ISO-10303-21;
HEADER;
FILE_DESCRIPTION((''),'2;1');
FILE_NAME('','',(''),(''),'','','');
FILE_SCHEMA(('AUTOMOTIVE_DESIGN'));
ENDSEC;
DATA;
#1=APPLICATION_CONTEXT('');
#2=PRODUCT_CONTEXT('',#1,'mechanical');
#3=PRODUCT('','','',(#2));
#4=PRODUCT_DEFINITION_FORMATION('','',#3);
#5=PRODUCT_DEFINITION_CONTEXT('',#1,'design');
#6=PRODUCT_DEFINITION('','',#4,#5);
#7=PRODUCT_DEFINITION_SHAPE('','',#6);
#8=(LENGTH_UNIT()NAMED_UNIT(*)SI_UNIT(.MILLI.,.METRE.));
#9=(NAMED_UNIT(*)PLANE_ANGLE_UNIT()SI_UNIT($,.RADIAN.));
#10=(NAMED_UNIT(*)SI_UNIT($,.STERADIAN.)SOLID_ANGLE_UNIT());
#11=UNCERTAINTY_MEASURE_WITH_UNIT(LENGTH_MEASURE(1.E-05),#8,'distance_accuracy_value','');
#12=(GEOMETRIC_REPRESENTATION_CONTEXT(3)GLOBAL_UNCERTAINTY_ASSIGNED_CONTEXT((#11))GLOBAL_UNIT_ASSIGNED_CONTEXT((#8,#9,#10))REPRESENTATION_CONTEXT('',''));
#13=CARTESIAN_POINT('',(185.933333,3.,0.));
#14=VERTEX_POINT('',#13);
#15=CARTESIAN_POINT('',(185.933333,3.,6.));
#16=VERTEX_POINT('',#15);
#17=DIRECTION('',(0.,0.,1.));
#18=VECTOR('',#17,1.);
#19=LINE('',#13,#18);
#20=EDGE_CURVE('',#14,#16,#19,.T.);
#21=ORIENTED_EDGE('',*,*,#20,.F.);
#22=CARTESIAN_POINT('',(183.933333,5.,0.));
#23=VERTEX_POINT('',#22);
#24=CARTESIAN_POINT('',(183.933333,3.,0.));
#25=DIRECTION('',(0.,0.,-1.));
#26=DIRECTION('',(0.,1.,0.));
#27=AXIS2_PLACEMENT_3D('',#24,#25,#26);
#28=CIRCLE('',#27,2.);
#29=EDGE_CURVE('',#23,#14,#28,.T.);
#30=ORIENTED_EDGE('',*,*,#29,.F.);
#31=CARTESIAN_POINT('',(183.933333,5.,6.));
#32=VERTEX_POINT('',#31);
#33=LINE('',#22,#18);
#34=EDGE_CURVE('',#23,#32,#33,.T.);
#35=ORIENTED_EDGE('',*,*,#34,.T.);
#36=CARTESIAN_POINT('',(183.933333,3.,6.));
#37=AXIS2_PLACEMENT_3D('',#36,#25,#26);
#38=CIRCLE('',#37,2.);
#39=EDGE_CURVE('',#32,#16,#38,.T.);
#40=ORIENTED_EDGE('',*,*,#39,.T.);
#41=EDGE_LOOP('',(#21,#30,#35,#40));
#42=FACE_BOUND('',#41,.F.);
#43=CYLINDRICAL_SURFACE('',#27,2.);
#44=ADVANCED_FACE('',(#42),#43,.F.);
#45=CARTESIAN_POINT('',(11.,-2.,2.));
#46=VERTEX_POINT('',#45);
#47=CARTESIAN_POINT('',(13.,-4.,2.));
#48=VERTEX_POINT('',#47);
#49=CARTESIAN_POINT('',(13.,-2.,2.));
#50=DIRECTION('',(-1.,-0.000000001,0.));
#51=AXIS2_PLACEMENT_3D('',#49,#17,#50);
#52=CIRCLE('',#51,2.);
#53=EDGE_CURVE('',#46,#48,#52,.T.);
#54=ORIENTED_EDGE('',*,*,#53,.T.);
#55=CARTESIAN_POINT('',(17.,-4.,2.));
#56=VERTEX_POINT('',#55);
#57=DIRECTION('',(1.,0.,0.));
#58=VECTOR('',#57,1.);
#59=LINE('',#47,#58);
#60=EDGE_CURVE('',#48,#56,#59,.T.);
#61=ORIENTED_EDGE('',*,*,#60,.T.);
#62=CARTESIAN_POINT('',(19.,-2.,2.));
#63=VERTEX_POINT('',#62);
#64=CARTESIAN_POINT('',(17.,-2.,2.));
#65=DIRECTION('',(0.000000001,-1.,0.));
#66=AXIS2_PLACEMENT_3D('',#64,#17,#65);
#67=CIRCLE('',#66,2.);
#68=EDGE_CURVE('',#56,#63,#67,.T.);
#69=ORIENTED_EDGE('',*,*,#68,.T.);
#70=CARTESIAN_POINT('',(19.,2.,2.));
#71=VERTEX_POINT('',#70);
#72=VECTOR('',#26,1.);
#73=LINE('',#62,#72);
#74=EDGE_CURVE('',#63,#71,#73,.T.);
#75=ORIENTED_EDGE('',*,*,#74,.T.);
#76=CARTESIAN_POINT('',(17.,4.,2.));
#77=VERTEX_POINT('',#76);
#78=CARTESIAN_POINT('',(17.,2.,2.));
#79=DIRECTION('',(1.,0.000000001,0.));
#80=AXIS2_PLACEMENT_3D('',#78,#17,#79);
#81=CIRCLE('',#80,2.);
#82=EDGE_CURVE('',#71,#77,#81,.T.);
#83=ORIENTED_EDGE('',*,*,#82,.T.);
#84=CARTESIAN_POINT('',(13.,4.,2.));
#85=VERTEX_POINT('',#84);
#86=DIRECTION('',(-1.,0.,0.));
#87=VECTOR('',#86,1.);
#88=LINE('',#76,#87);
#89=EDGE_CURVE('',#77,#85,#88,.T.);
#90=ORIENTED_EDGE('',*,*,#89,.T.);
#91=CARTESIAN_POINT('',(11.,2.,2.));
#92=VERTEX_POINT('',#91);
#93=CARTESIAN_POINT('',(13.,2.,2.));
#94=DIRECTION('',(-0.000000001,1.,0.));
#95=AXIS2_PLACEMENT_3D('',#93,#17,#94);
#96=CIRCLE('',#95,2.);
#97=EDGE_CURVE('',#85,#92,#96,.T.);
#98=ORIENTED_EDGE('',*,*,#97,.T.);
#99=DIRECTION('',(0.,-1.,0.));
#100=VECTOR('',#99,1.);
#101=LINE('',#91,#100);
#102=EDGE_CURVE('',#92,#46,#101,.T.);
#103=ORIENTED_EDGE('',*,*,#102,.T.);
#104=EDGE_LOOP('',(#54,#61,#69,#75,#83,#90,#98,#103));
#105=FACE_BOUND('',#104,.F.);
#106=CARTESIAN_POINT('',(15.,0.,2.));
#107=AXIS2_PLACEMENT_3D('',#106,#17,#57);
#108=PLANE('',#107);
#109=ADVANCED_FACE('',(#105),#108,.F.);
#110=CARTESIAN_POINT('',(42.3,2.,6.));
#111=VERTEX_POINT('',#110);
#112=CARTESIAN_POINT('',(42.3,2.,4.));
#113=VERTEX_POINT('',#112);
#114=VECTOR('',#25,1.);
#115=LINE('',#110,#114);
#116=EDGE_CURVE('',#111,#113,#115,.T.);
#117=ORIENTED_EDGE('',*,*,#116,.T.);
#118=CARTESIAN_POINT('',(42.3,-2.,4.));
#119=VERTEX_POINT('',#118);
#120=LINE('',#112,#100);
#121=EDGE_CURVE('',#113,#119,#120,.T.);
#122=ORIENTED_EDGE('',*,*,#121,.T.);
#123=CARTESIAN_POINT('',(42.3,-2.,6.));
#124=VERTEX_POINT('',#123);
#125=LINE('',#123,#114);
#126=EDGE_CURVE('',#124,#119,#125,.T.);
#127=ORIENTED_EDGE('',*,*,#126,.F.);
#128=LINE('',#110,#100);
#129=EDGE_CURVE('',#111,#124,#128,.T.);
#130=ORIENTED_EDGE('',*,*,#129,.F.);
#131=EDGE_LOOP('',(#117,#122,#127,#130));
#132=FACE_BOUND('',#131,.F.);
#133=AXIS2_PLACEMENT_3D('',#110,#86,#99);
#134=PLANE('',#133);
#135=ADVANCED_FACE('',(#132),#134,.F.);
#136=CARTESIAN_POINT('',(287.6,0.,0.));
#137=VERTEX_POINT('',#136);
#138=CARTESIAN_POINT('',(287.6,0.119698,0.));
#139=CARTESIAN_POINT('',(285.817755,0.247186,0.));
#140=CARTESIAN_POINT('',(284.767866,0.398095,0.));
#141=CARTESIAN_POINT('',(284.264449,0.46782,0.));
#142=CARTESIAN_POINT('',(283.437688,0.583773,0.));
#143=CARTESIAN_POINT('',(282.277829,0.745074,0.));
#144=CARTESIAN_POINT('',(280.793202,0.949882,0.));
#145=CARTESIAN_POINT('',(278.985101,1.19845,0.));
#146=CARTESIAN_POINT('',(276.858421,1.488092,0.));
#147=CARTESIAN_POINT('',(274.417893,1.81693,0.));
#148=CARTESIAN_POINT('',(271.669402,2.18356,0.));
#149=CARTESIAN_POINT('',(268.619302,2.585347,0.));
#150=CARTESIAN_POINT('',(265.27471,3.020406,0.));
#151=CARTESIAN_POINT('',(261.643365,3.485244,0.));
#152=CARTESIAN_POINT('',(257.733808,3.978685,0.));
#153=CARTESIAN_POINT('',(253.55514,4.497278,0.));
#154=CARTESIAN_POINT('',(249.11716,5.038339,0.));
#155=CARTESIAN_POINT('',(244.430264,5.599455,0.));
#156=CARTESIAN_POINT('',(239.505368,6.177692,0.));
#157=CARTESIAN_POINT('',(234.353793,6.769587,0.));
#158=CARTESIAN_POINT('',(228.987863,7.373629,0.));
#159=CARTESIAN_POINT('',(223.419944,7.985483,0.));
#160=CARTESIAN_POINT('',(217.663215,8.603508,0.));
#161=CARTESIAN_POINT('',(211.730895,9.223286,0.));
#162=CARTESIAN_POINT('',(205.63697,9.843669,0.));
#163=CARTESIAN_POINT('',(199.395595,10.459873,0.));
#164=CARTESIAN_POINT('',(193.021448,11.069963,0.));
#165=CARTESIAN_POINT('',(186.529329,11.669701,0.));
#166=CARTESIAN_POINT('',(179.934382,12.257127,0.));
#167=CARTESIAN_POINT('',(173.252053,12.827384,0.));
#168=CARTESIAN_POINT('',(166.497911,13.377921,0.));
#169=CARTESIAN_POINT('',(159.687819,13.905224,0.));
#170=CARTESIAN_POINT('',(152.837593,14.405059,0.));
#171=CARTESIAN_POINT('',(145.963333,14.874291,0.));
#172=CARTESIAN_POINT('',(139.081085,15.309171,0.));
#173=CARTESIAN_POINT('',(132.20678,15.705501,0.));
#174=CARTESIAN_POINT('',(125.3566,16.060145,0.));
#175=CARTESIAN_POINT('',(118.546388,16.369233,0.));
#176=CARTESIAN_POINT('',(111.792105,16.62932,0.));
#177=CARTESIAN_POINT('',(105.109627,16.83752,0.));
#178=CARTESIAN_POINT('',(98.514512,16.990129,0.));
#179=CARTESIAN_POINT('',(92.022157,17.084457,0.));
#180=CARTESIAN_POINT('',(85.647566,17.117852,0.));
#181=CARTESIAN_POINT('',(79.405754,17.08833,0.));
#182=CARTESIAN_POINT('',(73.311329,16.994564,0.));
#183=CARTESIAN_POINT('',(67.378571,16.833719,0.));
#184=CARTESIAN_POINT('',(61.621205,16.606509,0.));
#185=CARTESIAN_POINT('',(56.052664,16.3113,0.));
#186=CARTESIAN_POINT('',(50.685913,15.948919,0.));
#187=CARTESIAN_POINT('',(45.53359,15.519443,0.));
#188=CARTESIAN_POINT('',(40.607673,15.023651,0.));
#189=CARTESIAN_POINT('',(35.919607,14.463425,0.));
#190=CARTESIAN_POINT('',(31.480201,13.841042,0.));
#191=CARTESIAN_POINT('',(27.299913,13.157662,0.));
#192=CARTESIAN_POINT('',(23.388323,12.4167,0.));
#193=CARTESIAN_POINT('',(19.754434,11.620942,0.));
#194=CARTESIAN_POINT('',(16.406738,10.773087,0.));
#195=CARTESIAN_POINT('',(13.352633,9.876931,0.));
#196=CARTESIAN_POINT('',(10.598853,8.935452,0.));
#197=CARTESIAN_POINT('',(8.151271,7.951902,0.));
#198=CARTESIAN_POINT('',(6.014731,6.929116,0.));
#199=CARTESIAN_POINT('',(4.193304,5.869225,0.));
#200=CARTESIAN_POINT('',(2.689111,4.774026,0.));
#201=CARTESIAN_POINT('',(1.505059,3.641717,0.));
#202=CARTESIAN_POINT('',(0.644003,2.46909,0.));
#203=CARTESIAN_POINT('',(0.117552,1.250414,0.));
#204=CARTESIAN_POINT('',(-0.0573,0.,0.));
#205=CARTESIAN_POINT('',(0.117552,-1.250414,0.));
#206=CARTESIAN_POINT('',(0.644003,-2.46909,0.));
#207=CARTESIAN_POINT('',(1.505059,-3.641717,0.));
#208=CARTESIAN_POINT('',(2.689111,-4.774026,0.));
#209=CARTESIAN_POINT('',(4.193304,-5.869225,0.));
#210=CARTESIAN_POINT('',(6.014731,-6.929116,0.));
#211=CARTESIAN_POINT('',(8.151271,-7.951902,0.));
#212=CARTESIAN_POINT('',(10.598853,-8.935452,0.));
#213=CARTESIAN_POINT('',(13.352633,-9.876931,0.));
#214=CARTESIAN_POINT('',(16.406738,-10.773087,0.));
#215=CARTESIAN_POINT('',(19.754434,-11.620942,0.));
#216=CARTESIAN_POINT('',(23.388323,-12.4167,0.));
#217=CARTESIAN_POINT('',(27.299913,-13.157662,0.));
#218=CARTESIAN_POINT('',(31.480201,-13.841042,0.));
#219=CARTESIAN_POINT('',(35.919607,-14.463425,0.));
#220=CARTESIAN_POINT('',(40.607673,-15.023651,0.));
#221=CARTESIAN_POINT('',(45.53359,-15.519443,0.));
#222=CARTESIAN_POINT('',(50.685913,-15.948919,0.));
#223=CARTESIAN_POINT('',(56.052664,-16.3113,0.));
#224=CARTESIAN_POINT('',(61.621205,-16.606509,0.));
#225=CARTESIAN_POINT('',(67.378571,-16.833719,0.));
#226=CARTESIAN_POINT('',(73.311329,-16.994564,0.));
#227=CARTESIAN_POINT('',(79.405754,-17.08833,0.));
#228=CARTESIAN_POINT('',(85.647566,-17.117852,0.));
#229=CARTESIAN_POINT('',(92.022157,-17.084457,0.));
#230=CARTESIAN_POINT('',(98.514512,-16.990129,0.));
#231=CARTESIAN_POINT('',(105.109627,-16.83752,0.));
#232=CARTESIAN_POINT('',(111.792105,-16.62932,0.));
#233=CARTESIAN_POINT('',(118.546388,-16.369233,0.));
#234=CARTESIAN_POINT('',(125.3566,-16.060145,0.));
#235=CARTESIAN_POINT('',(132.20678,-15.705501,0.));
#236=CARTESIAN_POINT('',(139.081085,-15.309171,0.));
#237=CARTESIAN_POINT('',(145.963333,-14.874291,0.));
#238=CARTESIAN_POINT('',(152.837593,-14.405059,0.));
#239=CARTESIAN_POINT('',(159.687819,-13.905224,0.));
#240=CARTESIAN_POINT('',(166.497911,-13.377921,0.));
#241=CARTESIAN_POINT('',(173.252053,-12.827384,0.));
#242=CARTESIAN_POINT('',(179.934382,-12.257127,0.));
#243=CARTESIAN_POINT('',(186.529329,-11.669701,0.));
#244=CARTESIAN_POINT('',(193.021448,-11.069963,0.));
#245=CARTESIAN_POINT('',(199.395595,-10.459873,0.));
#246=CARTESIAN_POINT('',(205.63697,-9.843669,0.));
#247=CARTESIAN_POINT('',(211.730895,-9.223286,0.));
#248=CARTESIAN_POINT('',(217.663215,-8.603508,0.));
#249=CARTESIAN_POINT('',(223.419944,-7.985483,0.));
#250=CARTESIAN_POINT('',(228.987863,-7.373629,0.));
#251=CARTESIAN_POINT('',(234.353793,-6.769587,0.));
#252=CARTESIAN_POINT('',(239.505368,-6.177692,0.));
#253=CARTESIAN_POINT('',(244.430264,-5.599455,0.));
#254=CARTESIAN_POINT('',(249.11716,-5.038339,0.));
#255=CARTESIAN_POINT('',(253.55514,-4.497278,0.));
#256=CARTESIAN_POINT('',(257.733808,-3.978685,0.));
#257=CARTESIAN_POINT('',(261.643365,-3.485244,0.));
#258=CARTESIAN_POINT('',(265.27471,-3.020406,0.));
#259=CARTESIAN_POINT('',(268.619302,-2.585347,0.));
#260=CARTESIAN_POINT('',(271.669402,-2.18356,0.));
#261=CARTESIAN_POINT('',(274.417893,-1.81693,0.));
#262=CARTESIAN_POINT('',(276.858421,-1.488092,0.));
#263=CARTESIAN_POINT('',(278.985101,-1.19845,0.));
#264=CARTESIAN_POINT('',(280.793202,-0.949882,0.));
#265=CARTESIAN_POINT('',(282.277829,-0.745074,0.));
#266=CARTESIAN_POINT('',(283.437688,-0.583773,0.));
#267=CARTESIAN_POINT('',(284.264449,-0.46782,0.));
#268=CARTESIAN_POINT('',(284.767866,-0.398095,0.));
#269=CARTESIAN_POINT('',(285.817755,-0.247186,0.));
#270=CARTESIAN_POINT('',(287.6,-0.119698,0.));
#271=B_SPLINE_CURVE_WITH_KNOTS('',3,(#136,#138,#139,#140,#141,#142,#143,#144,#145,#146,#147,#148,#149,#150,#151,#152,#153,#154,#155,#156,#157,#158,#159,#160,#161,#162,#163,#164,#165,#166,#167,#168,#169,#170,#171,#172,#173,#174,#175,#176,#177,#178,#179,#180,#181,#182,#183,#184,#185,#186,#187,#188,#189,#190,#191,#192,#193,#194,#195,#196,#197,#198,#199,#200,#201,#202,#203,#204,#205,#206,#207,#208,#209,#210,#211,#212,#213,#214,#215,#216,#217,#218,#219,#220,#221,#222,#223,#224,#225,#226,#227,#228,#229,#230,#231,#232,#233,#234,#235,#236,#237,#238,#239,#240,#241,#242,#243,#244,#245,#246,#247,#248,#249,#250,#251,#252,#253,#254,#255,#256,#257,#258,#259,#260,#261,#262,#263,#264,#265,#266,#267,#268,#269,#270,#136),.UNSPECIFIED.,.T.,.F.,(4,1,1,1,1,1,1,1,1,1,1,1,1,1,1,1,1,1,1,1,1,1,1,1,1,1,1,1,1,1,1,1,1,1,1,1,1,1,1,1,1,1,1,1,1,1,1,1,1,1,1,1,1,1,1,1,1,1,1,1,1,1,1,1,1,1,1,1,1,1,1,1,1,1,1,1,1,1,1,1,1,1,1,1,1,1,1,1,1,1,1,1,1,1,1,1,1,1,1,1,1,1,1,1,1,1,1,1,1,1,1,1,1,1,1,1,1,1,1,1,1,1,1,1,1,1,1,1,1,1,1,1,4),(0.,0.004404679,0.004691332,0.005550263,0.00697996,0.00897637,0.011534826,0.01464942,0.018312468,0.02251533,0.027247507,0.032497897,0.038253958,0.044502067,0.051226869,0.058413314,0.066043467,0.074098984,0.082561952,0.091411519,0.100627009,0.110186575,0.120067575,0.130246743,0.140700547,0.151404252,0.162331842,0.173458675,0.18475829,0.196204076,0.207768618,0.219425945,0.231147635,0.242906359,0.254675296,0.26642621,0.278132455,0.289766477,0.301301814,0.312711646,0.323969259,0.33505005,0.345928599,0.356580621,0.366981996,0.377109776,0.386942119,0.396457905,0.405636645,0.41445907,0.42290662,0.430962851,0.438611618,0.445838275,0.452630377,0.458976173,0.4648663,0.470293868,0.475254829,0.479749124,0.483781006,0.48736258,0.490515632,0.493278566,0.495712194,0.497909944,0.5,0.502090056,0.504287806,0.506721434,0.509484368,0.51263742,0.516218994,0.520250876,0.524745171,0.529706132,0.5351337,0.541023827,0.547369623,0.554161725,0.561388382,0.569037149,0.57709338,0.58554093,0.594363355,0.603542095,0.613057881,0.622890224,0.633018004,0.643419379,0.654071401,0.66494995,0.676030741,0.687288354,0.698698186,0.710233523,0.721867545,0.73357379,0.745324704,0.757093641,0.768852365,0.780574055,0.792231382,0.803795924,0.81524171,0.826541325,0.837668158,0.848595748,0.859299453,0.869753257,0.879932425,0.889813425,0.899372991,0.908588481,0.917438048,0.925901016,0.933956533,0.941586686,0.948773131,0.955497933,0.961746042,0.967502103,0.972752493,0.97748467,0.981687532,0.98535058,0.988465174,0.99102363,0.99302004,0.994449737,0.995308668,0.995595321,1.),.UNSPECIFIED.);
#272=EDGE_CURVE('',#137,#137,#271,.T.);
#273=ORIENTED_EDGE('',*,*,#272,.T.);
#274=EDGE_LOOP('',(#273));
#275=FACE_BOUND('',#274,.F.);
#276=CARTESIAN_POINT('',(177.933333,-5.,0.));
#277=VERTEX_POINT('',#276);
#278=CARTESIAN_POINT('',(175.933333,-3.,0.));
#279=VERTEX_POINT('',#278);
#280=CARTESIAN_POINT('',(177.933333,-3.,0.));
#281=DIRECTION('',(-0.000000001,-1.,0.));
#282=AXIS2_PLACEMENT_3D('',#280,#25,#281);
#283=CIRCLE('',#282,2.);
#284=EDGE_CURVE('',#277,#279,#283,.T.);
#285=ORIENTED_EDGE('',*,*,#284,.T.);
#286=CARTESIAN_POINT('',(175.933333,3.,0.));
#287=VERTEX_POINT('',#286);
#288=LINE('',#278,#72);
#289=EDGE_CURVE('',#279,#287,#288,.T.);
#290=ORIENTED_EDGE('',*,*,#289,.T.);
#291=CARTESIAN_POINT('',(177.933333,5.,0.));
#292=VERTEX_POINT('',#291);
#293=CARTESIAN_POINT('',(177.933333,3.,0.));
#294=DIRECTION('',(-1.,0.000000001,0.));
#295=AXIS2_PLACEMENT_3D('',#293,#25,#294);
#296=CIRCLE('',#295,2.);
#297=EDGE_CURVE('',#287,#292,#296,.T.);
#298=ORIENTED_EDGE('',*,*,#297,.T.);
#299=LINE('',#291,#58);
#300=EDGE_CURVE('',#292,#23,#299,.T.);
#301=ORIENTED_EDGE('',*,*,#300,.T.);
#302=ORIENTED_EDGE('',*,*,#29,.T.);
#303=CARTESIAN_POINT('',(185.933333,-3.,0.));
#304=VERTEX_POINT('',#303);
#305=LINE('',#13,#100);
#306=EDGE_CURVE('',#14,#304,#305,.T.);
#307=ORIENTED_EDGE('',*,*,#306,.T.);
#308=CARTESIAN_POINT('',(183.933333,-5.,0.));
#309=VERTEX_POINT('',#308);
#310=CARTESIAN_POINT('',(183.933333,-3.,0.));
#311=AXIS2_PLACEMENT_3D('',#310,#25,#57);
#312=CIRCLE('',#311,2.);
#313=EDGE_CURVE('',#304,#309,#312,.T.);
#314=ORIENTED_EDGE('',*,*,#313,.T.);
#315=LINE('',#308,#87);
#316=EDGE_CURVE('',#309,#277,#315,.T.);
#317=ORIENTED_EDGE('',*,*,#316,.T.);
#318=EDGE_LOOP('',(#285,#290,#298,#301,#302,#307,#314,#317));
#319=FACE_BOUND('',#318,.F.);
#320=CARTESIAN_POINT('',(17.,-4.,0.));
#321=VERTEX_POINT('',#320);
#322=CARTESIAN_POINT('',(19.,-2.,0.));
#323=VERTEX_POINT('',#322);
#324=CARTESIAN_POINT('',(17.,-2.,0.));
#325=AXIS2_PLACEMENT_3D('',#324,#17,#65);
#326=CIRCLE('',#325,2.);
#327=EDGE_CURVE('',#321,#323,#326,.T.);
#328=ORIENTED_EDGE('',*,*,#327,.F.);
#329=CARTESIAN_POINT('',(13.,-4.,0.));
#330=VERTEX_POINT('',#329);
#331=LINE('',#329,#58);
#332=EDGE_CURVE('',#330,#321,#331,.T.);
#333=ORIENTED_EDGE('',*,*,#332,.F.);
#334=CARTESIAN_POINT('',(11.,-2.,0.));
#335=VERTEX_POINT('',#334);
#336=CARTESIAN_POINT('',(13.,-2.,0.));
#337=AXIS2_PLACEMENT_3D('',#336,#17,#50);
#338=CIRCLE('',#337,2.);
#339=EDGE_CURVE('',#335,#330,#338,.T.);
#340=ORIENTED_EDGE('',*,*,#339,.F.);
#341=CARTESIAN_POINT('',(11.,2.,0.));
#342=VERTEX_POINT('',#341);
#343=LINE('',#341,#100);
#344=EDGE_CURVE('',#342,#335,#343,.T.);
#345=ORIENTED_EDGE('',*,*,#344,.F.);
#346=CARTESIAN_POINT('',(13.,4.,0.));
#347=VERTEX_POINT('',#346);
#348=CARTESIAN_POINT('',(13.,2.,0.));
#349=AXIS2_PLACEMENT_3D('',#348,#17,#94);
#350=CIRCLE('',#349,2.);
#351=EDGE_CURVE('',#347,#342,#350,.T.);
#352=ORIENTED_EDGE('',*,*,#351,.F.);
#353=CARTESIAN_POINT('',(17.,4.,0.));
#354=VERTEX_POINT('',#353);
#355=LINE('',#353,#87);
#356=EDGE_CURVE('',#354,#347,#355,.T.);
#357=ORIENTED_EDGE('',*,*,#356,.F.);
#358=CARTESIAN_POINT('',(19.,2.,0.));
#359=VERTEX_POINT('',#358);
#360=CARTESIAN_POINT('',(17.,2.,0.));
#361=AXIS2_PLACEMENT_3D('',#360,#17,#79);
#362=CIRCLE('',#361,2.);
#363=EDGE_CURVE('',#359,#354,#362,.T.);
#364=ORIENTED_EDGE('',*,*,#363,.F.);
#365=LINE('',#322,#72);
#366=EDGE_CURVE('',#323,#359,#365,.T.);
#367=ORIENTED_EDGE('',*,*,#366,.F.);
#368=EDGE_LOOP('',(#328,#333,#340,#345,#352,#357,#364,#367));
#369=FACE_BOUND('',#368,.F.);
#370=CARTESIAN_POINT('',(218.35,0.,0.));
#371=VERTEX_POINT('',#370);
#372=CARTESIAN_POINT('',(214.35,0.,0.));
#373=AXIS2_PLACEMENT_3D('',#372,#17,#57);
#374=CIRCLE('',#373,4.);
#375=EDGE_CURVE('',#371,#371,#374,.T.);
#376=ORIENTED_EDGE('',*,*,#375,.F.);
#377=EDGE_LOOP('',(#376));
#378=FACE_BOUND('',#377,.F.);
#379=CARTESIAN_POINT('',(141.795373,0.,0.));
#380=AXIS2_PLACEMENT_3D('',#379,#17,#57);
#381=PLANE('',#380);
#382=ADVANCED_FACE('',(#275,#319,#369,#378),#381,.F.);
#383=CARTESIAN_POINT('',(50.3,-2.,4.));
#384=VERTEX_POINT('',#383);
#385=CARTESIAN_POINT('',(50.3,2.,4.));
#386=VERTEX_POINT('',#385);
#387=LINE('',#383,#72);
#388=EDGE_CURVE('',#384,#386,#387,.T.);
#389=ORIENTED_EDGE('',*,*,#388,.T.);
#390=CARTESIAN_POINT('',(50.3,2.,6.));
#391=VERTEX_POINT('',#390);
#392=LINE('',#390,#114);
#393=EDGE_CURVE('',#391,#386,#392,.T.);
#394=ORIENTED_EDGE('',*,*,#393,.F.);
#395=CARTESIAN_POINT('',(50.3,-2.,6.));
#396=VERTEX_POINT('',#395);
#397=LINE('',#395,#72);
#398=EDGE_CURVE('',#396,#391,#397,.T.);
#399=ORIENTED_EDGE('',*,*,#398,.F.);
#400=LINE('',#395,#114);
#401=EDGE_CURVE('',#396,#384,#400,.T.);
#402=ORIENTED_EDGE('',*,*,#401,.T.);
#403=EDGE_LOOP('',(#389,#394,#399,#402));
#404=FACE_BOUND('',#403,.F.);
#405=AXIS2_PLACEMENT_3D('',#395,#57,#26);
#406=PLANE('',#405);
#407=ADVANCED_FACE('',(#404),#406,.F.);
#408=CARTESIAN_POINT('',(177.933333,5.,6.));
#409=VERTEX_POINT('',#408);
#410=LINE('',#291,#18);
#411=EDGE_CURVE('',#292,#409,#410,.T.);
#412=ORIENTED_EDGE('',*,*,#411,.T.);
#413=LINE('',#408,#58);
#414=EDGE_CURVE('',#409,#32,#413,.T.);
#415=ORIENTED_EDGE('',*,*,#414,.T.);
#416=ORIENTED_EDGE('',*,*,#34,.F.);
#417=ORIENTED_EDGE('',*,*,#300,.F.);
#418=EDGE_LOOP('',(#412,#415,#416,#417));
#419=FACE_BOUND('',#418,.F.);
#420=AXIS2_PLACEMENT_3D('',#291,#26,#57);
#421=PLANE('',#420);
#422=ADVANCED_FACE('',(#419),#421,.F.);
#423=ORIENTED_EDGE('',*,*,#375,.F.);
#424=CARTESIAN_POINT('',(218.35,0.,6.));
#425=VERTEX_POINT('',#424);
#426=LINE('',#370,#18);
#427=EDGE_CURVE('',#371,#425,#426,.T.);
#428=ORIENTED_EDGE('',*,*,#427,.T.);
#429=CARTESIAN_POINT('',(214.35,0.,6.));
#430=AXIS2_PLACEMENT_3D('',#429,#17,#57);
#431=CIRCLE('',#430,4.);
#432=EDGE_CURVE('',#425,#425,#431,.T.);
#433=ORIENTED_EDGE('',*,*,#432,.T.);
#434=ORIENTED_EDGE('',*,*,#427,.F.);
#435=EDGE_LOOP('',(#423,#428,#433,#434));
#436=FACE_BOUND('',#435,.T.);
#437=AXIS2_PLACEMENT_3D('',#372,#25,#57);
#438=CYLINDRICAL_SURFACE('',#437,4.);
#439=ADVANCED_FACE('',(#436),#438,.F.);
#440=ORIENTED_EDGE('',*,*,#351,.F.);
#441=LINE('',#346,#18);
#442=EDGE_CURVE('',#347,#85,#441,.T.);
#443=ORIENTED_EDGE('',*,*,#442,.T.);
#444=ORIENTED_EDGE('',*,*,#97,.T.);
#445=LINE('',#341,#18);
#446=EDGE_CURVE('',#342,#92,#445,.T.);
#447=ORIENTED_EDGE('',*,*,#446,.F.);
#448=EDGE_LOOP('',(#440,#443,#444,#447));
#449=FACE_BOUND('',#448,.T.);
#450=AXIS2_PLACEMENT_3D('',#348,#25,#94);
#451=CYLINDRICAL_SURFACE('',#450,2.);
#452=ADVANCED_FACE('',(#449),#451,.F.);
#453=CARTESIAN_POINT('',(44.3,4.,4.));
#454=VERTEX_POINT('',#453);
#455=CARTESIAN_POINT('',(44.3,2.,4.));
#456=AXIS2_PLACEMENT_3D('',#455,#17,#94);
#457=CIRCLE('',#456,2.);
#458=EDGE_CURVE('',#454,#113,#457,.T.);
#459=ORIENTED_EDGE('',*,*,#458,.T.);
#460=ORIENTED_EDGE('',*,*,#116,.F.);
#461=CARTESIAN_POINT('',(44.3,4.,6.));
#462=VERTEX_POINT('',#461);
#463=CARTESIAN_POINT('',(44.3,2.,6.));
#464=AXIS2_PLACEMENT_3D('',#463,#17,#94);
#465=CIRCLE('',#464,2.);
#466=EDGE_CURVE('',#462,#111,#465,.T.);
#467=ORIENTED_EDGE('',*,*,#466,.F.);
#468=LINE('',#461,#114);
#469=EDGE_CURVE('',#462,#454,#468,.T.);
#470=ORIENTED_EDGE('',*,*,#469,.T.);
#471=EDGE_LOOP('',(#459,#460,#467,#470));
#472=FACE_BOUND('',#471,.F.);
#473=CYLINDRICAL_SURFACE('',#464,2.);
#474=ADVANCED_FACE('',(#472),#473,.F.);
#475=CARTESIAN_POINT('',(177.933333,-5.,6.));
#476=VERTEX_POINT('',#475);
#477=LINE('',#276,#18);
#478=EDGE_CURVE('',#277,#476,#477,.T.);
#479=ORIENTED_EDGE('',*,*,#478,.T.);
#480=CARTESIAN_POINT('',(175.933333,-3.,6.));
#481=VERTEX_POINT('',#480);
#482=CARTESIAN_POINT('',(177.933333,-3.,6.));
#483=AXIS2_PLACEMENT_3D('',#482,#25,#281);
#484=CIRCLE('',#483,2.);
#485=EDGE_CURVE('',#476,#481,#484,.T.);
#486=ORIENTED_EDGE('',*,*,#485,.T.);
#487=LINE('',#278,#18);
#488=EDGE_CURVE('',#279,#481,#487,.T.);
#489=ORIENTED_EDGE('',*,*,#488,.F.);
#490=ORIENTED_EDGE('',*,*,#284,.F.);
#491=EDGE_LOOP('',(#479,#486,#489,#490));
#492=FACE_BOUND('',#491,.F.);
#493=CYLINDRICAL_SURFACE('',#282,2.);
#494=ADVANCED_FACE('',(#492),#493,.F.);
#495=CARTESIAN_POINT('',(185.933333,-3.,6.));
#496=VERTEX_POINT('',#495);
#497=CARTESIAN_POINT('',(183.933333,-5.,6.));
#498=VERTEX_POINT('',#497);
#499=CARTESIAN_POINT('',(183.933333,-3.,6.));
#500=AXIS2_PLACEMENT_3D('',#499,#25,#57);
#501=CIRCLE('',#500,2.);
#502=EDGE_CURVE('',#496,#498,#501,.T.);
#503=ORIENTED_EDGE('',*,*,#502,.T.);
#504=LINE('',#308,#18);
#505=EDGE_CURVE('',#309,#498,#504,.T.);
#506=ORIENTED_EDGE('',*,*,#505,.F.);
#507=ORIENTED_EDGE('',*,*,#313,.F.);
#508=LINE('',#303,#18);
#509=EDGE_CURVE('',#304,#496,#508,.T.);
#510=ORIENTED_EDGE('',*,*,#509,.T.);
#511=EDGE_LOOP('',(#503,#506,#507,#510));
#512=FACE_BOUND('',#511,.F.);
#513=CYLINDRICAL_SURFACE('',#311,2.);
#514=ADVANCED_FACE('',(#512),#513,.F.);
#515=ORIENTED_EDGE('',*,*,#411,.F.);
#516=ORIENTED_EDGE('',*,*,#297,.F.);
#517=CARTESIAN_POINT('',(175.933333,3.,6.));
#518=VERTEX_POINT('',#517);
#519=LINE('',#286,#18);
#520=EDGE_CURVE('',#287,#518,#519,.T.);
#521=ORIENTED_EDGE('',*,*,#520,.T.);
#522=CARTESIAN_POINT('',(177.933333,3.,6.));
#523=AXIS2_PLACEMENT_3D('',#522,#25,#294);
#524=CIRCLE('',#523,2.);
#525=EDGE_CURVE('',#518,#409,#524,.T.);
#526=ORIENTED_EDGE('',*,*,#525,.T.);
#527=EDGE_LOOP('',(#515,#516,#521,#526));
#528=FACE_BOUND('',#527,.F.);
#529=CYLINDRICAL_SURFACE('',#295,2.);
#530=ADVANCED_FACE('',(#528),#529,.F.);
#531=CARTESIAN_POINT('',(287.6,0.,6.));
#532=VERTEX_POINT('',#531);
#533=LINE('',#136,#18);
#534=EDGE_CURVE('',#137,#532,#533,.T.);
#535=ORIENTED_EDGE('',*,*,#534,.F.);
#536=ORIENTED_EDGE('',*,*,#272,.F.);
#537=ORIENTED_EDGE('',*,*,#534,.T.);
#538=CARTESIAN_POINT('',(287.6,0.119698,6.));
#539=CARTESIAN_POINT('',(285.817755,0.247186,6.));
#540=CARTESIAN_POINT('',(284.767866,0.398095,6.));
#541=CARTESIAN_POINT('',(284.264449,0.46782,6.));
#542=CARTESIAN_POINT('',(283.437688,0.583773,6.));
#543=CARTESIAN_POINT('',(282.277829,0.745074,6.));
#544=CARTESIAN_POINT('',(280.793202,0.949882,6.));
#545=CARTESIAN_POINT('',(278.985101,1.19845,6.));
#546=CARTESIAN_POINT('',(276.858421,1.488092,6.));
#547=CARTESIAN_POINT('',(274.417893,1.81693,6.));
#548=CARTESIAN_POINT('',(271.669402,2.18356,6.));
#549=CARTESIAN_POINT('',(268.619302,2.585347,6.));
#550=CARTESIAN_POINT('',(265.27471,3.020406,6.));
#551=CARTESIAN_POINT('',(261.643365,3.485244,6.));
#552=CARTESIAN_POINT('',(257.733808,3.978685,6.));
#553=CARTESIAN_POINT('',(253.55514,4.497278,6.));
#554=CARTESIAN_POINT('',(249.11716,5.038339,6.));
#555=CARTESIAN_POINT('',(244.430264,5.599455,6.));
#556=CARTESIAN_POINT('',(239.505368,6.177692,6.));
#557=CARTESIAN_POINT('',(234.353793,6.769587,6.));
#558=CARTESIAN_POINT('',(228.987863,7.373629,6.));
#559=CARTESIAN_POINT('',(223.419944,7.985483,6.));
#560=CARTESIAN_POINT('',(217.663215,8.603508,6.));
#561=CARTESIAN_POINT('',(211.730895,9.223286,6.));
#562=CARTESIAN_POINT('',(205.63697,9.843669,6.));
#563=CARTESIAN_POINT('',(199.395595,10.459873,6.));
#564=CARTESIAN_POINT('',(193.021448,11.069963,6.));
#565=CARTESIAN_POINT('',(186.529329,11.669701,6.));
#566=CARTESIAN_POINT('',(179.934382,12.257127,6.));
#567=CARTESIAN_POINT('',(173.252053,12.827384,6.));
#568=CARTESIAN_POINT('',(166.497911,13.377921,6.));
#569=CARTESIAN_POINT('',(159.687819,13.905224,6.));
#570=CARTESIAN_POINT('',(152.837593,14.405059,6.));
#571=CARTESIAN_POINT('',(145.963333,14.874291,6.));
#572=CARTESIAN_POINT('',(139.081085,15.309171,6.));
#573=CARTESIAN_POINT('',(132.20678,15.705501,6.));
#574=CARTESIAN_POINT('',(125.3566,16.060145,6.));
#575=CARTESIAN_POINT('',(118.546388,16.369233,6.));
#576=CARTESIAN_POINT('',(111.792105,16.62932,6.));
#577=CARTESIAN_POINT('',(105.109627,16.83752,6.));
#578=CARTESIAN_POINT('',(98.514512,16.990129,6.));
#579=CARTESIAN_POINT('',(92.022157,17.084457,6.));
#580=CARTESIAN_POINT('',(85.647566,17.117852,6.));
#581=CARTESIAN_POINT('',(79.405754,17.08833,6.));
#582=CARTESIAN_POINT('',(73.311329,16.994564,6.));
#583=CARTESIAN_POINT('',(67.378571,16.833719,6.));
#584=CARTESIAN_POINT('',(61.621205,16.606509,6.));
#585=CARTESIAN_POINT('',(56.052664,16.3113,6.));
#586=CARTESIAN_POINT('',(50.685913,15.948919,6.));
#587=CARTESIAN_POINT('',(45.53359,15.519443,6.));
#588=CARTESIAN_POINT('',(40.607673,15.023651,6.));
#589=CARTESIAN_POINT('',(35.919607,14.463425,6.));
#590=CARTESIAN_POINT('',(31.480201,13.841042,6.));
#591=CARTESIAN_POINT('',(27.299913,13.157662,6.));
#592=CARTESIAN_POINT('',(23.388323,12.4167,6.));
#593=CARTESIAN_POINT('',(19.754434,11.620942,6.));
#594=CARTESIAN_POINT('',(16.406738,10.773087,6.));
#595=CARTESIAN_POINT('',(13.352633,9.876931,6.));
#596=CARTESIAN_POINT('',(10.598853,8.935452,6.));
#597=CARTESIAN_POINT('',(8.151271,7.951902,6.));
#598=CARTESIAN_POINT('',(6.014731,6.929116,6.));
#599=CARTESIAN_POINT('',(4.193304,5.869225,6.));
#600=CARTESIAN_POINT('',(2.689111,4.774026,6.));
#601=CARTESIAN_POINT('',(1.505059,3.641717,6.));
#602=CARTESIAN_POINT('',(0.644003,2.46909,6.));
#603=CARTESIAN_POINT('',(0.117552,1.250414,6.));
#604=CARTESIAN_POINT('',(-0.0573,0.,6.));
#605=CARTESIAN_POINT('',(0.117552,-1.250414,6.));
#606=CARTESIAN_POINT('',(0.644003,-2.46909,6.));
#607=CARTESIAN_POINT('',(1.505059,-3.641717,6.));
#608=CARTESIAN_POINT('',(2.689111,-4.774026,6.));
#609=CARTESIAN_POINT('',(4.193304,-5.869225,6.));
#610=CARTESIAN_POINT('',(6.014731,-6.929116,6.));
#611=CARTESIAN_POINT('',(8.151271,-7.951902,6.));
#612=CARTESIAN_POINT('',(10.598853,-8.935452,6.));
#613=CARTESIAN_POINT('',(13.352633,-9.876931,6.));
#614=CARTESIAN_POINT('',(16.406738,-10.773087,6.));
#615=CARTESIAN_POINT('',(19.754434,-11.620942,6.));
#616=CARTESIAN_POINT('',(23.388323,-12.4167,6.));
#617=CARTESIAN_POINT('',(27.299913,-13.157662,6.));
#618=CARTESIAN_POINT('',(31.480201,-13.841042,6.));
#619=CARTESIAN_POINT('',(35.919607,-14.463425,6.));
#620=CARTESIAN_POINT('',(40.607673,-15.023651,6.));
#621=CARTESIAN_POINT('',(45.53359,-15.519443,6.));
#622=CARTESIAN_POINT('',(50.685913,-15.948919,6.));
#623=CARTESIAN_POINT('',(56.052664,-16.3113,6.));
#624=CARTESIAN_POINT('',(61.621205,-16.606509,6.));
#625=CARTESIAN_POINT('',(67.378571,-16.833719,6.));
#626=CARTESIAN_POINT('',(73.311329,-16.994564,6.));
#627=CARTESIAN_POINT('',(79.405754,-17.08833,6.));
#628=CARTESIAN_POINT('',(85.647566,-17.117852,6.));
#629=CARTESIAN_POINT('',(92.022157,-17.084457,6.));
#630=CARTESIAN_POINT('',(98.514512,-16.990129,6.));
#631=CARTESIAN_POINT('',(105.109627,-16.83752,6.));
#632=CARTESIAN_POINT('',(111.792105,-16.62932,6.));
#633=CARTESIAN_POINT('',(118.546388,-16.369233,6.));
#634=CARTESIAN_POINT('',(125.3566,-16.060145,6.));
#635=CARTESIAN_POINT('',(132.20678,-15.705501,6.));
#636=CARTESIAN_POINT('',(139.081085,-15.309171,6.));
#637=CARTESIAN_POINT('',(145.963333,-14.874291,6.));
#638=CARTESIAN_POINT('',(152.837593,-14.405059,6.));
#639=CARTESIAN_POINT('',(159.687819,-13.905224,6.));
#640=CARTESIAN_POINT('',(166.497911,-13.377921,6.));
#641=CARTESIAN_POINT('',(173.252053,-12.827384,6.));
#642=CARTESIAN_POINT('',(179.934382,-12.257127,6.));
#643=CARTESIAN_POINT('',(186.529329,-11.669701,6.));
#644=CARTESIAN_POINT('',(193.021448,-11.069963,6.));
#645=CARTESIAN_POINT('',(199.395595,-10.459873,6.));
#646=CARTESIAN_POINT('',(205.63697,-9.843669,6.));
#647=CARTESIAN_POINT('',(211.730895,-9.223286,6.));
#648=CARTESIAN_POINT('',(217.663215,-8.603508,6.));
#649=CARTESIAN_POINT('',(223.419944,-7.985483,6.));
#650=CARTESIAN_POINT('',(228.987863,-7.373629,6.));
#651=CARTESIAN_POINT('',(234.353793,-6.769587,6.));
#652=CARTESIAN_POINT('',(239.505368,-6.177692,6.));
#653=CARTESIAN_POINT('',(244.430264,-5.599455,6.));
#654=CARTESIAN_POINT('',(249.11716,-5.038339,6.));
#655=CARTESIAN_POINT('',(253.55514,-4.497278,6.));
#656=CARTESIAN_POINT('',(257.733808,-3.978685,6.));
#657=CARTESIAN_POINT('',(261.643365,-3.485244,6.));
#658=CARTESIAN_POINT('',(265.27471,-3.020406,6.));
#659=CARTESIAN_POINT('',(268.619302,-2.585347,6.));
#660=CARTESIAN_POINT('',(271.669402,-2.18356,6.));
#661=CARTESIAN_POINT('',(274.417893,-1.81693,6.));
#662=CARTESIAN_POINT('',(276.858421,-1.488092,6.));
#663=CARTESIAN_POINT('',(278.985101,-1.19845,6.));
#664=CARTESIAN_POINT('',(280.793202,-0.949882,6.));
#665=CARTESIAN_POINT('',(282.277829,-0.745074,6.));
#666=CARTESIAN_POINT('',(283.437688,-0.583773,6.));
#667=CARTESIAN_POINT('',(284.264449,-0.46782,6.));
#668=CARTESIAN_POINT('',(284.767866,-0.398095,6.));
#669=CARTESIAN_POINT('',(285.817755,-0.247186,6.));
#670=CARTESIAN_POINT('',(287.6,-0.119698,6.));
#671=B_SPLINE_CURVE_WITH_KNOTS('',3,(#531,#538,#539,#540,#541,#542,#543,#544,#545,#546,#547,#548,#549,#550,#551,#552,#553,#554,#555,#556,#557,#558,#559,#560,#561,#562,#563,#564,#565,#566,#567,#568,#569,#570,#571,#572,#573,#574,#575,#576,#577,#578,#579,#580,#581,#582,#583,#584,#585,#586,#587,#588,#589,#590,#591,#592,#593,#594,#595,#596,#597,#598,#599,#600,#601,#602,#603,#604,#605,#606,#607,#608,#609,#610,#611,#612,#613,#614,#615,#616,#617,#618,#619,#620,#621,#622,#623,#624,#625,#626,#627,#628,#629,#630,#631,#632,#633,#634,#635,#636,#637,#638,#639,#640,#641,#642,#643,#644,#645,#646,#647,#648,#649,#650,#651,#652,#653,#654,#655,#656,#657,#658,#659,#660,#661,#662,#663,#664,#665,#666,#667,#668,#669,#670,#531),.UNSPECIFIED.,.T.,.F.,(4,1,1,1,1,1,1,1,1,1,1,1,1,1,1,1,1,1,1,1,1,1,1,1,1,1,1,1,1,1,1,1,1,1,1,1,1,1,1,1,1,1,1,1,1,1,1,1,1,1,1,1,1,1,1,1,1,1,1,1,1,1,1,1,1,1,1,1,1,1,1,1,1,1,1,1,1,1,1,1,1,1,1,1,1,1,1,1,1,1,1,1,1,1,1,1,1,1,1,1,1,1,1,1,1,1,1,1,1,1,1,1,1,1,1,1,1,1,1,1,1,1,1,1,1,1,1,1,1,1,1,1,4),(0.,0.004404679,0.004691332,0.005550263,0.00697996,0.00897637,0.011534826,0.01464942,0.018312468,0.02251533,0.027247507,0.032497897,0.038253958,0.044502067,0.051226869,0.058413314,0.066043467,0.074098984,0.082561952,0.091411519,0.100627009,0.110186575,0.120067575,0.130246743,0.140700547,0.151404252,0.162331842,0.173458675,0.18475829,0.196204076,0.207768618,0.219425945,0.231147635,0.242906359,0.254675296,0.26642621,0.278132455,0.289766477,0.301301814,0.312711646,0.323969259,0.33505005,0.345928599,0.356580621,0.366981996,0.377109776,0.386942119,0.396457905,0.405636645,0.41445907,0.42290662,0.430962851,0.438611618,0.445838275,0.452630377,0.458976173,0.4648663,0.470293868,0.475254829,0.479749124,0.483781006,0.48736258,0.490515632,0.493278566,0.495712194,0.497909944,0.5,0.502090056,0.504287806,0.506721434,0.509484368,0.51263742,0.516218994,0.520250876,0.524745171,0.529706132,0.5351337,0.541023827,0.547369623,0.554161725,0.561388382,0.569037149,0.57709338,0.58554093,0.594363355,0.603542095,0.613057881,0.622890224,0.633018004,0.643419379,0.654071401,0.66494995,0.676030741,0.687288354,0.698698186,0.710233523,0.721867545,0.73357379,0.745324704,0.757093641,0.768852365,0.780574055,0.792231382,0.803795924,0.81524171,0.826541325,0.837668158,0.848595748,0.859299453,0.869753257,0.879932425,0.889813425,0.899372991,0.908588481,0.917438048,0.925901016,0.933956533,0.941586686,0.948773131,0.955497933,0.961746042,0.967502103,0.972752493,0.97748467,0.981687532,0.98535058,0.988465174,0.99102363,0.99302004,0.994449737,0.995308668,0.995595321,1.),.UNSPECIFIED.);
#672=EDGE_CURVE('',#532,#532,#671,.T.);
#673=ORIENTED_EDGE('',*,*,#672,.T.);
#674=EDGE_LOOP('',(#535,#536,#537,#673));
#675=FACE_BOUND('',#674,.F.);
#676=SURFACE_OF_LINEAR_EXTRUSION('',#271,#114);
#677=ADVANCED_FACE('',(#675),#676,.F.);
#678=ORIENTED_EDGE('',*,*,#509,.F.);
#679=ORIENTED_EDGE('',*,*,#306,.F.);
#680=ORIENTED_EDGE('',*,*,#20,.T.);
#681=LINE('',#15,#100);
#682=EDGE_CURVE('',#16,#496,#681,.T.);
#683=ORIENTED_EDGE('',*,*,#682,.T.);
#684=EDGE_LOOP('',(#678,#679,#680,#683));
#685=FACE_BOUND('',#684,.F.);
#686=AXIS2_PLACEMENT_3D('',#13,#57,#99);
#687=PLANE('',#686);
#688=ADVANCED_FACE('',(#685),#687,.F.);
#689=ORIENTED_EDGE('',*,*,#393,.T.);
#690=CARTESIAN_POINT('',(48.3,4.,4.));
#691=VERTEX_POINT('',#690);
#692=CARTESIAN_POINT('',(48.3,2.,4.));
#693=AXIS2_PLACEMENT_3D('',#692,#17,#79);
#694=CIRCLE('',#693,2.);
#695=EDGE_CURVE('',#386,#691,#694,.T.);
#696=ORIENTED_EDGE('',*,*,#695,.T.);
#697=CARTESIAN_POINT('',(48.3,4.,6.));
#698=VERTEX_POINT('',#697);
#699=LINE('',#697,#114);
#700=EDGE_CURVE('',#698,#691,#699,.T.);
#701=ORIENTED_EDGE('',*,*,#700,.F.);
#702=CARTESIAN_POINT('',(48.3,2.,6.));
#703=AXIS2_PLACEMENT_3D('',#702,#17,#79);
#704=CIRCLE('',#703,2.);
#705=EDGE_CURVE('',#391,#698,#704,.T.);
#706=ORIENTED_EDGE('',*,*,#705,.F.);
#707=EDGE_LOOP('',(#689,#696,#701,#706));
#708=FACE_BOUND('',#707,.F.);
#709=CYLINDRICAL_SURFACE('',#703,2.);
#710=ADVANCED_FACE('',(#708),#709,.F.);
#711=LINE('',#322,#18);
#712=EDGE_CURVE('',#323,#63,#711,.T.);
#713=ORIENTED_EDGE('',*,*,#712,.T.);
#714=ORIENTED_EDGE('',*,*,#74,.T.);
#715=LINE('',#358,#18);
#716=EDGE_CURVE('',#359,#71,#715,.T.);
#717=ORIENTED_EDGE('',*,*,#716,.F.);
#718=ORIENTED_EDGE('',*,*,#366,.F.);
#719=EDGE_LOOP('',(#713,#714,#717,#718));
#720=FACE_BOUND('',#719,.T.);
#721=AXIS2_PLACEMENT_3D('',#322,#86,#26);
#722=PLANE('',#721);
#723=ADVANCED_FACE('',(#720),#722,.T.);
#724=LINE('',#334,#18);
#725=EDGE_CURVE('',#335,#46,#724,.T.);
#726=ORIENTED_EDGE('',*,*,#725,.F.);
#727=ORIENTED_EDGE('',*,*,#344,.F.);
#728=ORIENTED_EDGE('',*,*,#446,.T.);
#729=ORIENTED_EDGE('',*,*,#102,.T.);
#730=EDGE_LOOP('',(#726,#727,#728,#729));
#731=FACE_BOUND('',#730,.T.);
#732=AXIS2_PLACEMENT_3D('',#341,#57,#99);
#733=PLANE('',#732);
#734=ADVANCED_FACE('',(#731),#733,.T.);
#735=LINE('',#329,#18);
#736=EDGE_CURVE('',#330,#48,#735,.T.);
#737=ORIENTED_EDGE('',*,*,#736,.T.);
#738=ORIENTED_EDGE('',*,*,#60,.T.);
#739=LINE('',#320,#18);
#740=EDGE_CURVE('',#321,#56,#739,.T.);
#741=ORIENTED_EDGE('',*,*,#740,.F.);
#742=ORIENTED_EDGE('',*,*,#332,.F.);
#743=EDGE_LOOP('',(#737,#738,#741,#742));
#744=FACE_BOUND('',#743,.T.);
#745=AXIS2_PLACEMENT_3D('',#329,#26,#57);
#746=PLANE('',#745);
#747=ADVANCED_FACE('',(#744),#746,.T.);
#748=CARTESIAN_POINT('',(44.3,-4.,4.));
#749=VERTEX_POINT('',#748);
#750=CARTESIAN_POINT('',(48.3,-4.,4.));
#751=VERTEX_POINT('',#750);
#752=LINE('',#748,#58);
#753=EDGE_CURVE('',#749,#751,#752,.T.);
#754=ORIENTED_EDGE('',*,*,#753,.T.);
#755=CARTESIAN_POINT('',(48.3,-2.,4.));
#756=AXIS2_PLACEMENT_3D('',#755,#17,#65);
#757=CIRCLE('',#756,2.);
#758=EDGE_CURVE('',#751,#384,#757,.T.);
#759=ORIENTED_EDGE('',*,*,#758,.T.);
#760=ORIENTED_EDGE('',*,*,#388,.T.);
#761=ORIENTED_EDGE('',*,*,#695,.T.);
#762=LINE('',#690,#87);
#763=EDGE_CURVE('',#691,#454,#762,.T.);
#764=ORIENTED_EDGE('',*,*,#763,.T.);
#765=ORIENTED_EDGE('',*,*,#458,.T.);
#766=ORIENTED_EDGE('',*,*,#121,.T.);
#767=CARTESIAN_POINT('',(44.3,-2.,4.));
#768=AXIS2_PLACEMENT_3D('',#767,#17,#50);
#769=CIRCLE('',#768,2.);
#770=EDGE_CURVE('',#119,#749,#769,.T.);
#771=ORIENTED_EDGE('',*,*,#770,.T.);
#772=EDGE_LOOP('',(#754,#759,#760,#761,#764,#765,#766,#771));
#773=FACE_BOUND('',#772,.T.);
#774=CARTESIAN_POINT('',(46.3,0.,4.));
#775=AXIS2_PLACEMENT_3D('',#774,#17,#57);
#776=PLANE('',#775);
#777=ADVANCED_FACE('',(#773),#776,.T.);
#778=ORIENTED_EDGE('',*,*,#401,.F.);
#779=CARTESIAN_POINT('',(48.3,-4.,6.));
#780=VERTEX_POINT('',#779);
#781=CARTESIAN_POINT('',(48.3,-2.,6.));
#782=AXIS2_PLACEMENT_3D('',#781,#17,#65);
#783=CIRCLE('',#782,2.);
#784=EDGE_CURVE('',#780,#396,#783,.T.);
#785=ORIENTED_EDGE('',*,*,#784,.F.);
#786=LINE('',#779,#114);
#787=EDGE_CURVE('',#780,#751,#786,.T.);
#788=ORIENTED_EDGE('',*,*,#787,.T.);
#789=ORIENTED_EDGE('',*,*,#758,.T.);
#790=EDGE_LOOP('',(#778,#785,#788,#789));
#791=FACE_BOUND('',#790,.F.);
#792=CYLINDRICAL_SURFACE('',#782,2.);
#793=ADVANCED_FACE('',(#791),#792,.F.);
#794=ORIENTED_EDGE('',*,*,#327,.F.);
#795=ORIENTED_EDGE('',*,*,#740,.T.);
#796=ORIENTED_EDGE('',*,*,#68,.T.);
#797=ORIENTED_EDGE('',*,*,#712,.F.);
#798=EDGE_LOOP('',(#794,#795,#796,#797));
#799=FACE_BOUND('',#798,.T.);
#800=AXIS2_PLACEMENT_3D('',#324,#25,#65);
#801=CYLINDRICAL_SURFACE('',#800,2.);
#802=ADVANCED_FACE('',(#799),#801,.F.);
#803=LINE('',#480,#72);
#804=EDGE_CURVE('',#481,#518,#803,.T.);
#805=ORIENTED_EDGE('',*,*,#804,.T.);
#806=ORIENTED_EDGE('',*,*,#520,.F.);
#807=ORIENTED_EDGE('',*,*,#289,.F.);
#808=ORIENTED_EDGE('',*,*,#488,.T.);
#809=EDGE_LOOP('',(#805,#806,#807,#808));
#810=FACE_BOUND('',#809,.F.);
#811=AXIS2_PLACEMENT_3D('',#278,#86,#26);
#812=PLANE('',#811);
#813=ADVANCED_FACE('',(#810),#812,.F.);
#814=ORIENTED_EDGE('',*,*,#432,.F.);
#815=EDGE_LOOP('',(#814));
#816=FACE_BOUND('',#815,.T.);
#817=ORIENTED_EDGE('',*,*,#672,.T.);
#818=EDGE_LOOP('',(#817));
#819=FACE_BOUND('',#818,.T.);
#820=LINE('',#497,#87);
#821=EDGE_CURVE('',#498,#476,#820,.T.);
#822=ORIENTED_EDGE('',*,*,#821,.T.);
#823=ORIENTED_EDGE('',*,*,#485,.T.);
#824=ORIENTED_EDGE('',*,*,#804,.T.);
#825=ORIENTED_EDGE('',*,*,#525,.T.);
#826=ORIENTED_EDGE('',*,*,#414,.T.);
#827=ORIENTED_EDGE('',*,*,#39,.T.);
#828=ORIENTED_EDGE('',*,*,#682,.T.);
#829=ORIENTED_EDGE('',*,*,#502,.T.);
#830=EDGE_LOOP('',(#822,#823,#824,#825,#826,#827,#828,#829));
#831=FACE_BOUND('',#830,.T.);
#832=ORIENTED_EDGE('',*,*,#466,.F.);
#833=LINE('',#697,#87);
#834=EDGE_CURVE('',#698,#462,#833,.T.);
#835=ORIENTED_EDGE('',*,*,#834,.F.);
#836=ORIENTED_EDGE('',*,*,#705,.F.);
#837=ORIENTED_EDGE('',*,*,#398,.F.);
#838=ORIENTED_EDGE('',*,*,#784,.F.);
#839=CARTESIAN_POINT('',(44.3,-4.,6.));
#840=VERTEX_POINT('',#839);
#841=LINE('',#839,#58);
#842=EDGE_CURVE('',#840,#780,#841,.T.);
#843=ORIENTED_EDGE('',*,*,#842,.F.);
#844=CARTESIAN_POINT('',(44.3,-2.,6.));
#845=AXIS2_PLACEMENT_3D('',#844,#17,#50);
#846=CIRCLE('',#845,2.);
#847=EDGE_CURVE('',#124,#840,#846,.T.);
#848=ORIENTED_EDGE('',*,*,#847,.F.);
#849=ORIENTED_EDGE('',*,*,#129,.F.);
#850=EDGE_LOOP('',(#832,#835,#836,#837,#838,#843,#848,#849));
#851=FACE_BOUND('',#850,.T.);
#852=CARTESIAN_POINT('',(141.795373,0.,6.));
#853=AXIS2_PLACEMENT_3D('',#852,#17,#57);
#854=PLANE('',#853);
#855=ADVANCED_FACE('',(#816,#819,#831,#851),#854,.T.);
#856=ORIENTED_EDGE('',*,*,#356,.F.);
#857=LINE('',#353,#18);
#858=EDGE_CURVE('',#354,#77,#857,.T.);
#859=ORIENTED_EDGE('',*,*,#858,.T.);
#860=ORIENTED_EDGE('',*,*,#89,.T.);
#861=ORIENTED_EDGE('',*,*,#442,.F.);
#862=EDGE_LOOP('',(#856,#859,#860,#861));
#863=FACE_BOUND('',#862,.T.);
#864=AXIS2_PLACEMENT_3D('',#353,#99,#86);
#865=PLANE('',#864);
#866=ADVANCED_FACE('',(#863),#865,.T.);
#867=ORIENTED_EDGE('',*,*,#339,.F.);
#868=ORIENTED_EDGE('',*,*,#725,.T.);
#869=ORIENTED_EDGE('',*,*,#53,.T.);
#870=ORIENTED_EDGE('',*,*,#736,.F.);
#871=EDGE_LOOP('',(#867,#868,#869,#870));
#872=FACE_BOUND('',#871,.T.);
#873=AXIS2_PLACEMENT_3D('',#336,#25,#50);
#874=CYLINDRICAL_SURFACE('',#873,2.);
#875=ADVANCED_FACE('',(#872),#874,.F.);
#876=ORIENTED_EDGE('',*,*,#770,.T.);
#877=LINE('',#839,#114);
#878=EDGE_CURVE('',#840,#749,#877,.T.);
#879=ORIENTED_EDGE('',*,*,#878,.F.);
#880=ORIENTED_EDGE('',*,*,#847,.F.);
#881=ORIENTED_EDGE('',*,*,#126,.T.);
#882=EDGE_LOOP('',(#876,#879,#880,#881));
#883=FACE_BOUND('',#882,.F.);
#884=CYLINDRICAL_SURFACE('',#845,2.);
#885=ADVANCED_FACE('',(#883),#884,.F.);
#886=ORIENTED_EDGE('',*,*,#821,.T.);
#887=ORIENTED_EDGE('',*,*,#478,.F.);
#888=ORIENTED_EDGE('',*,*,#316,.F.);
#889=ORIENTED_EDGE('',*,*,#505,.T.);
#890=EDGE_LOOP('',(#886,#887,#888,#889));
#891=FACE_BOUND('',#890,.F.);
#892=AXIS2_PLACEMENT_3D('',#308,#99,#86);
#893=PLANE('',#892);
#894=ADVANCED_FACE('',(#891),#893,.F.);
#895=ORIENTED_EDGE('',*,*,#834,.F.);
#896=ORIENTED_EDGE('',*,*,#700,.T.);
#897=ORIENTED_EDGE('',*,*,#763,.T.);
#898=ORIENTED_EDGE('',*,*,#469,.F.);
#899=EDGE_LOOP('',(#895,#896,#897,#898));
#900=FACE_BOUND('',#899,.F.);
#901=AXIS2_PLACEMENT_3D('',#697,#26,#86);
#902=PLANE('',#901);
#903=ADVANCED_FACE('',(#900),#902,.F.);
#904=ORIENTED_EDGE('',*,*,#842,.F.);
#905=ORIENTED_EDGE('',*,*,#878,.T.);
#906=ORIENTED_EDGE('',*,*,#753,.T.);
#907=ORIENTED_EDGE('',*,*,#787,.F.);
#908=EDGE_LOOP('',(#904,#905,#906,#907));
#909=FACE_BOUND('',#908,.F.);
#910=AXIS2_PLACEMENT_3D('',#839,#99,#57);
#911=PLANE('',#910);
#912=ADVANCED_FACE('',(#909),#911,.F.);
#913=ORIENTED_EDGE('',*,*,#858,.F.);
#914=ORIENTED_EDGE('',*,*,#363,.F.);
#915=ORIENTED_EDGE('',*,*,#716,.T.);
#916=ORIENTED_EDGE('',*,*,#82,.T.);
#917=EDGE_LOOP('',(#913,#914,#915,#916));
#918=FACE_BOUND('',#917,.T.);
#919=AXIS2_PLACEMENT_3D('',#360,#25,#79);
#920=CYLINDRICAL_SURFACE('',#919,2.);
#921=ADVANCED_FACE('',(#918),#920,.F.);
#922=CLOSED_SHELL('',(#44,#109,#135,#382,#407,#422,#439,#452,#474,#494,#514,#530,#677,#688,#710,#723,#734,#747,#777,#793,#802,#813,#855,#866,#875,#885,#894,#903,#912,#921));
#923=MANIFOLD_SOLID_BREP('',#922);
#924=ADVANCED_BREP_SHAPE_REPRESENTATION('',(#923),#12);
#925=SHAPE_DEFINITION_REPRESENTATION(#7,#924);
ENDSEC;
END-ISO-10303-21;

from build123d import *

# Parameters (mm, degrees)
ESBO_O2_R                = 4
RESSALTO_EXTRUS_O1_DEPTH = 6
CORTE_EXTRUS_O1_DEPTH    = 2
CORTE_EXTRUS_O2_DEPTH    = 2


with BuildPart() as part:
    # Esboço2 → Ressalto-extrusão1 (new body)
    with BuildSketch(Plane.XY):
        with BuildLine():
            add(Edge.make_bspline(
                [(287.6, 0), (287.6, 0.119697914), (285.817754553, 0.247185692), (284.767865992, 0.398094711), (284.264448894, 0.467820009), (283.43768813, 0.583773245), (282.277829485, 0.74507406), (280.793202236, 0.949881536), (278.98510147, 1.198450267), (276.858420544, 1.488091926), (274.417893217, 1.816930381), (271.669401999, 2.183559584), (268.619301696, 2.585347237), (265.274709704, 3.020406095), (261.643364865, 3.485243955), (257.733807871, 3.97868529), (253.555140371, 4.49727783), (249.117159969, 5.038339365), (244.430264247, 5.599454736), (239.5053681, 6.177691953), (234.353792881, 6.769587119), (228.987863488, 7.373628638), (223.419943837, 7.985483384), (217.663214551, 8.603508067), (211.730895239, 9.223286141), (205.636969584, 9.843669103), (199.39559532, 10.459873108), (193.021447659, 11.069962818), (186.529328525, 11.669700875), (179.934382421, 12.257126539), (173.252052511, 12.827383605), (166.497911298, 13.377921429), (159.687818769, 13.905224154), (152.837593287, 14.405058832), (145.963333172, 14.874290612), (139.081085422, 15.309171286), (132.20678029, 15.70550096), (125.35660044, 16.060145436), (118.546388357, 16.369233), (111.792105265, 16.629320446), (105.10962701, 16.837520337), (98.514511855, 16.990129218), (92.022156597, 17.084456768), (85.647566419, 17.117851746), (79.405754471, 17.088329774), (73.311328939, 16.994563536), (67.378571016, 16.833719315), (61.62120467, 16.606508882), (56.052663957, 16.311299689), (50.685913151, 15.948919147), (45.533589734, 15.519442809), (40.60767255, 15.02365128), (35.919607131, 14.463425319), (31.480201299, 13.841042083), (27.299913239, 13.157661743), (23.388323375, 12.416699746), (19.754434178, 11.620942186), (16.40673833, 10.773086642), (13.352633209, 9.876931334), (10.598853103, 8.935452398), (8.151270602, 7.951901503), (6.014730805, 6.929116001), (4.1933041, 5.869225283), (2.689111463, 4.774026072), (1.505059401, 3.641716827), (0.644003291, 2.469089904), (0.117552225, 1.250413641), (-0.057299877, 0), (0.117552225, -1.250413641), (0.644003291, -2.469089904), (1.505059401, -3.641716827), (2.689111463, -4.774026072), (4.1933041, -5.869225283), (6.014730805, -6.929116001), (8.151270602, -7.951901503), (10.598853103, -8.935452398), (13.352633209, -9.876931334), (16.40673833, -10.773086642), (19.754434178, -11.620942186), (23.388323375, -12.416699746), (27.299913239, -13.157661743), (31.480201299, -13.841042083), (35.919607131, -14.463425319), (40.60767255, -15.02365128), (45.533589734, -15.519442809), (50.685913151, -15.948919147), (56.052663957, -16.311299689), (61.62120467, -16.606508882), (67.378571016, -16.833719315), (73.311328939, -16.994563536), (79.405754471, -17.088329774), (85.647566419, -17.117851746), (92.022156597, -17.084456768), (98.514511855, -16.990129218), (105.10962701, -16.837520337), (111.792105265, -16.629320446), (118.546388357, -16.369233), (125.35660044, -16.060145436), (132.20678029, -15.70550096), (139.081085422, -15.309171286), (145.963333172, -14.874290612), (152.837593287, -14.405058832), (159.687818769, -13.905224154), (166.497911298, -13.377921429), (173.252052511, -12.827383605), (179.934382421, -12.257126539), (186.529328525, -11.669700875), (193.021447659, -11.069962818), (199.39559532, -10.459873108), (205.636969584, -9.843669103), (211.730895239, -9.223286141), (217.663214551, -8.603508067), (223.419943837, -7.985483384), (228.987863488, -7.373628638), (234.353792881, -6.769587119), (239.5053681, -6.177691953), (244.430264247, -5.599454736), (249.117159969, -5.038339365), (253.555140371, -4.49727783), (257.733807871, -3.97868529), (261.643364865, -3.485243955), (265.274709704, -3.020406095), (268.619301696, -2.585347237), (271.669401999, -2.183559584), (274.417893217, -1.816930381), (276.858420544, -1.488091926), (278.98510147, -1.198450267), (280.793202236, -0.949881536), (282.277829485, -0.74507406), (283.43768813, -0.583773245), (284.264448894, -0.467820009), (284.767865992, -0.398094711), (285.817754553, -0.247185692), (287.6, -0.119697914), (287.6, 0)],
                knots=[0, 0, 0, 0, 0.004404679, 0.004691332, 0.005550263, 0.00697996, 0.00897637, 0.011534826, 0.01464942, 0.018312468, 0.02251533, 0.027247507, 0.032497897, 0.038253958, 0.044502067, 0.051226869, 0.058413314, 0.066043467, 0.074098984, 0.082561952, 0.091411519, 0.100627009, 0.110186575, 0.120067575, 0.130246743, 0.140700547, 0.151404252, 0.162331842, 0.173458675, 0.18475829, 0.196204076, 0.207768618, 0.219425945, 0.231147635, 0.242906359, 0.254675296, 0.26642621, 0.278132455, 0.289766477, 0.301301814, 0.312711646, 0.323969259, 0.33505005, 0.345928599, 0.356580621, 0.366981996, 0.377109776, 0.386942119, 0.396457905, 0.405636645, 0.41445907, 0.42290662, 0.430962851, 0.438611618, 0.445838275, 0.452630377, 0.458976173, 0.4648663, 0.470293868, 0.475254829, 0.479749124, 0.483781006, 0.48736258, 0.490515632, 0.493278566, 0.495712194, 0.497909944, 0.5, 0.502090056, 0.504287806, 0.506721434, 0.509484368, 0.51263742, 0.516218994, 0.520250876, 0.524745171, 0.529706132, 0.5351337, 0.541023827, 0.547369623, 0.554161725, 0.561388382, 0.569037149, 0.57709338, 0.58554093, 0.594363355, 0.603542095, 0.613057881, 0.622890224, 0.633018004, 0.643419379, 0.654071401, 0.66494995, 0.676030741, 0.687288354, 0.698698186, 0.710233523, 0.721867545, 0.73357379, 0.745324704, 0.757093641, 0.768852365, 0.780574055, 0.792231382, 0.803795924, 0.81524171, 0.826541325, 0.837668158, 0.848595748, 0.859299453, 0.869753257, 0.879932425, 0.889813425, 0.899372991, 0.908588481, 0.917438048, 0.925901016, 0.933956533, 0.941586686, 0.948773131, 0.955497933, 0.961746042, 0.967502103, 0.972752493, 0.97748467, 0.981687532, 0.98535058, 0.988465174, 0.99102363, 0.99302004, 0.994449737, 0.995308668, 0.995595321, 1, 1, 1, 1], degree=3))
        make_face()
        with Locations((214.35, 0)):
            Circle(ESBO_O2_R, mode=Mode.SUBTRACT)
        with BuildLine():
            Line((183.933333333, -5), (177.933333333, -5))
            ThreePointArc((177.933333333, -5), (176.519119771, -4.414213562), (175.933333333, -3))
            Line((175.933333333, -3), (175.933333333, 3))
            ThreePointArc((175.933333333, 3), (176.519119771, 4.414213562), (177.933333333, 5))
            Line((177.933333333, 5), (183.933333333, 5))
            ThreePointArc((183.933333333, 5), (185.347546896, 4.414213562), (185.933333333, 3))
            Line((185.933333333, 3), (185.933333333, -3))
            ThreePointArc((185.933333333, -3), (185.347546896, -4.414213562), (183.933333333, -5))
        make_face(mode=Mode.SUBTRACT)
    extrude(amount=RESSALTO_EXTRUS_O1_DEPTH)

    # Esboço3 → Corte-extrusão1 (cut)
    with BuildSketch(Plane(origin=(0, 0, 0), x_dir=(-1, 0, 0), z_dir=(0, 0, -1))):
        with BuildLine():
            Line((-13, -4), (-17, -4))
            ThreePointArc((-17, -4), (-18.414213562, -3.414213562), (-19, -2))
            Line((-19, -2), (-19, 2))
            ThreePointArc((-19, 2), (-18.414213562, 3.414213562), (-17, 4))
            Line((-17, 4), (-13, 4))
            ThreePointArc((-13, 4), (-11.585786438, 3.414213562), (-11, 2))
            Line((-11, 2), (-11, -2))
            ThreePointArc((-11, -2), (-11.585786438, -3.414213562), (-13, -4))
        make_face()
    extrude(amount=-CORTE_EXTRUS_O1_DEPTH, mode=Mode.SUBTRACT)

    # Esboço4 → Corte-extrusão2 (cut)
    with BuildSketch(Plane.XY.offset(6)):
        with BuildLine():
            Line((44.3, -4), (48.3, -4))
            ThreePointArc((48.3, -4), (49.714213562, -3.414213562), (50.3, -2))
            Line((50.3, -2), (50.3, 2))
            ThreePointArc((50.3, 2), (49.714213562, 3.414213562), (48.3, 4))
            Line((48.3, 4), (44.3, 4))
            ThreePointArc((44.3, 4), (42.885786438, 3.414213562), (42.3, 2))
            Line((42.3, 2), (42.3, -2))
            ThreePointArc((42.3, -2), (42.885786438, -3.414213562), (44.3, -4))
        make_face()
    extrude(amount=-CORTE_EXTRUS_O2_DEPTH, mode=Mode.SUBTRACT)


solid = part.part
